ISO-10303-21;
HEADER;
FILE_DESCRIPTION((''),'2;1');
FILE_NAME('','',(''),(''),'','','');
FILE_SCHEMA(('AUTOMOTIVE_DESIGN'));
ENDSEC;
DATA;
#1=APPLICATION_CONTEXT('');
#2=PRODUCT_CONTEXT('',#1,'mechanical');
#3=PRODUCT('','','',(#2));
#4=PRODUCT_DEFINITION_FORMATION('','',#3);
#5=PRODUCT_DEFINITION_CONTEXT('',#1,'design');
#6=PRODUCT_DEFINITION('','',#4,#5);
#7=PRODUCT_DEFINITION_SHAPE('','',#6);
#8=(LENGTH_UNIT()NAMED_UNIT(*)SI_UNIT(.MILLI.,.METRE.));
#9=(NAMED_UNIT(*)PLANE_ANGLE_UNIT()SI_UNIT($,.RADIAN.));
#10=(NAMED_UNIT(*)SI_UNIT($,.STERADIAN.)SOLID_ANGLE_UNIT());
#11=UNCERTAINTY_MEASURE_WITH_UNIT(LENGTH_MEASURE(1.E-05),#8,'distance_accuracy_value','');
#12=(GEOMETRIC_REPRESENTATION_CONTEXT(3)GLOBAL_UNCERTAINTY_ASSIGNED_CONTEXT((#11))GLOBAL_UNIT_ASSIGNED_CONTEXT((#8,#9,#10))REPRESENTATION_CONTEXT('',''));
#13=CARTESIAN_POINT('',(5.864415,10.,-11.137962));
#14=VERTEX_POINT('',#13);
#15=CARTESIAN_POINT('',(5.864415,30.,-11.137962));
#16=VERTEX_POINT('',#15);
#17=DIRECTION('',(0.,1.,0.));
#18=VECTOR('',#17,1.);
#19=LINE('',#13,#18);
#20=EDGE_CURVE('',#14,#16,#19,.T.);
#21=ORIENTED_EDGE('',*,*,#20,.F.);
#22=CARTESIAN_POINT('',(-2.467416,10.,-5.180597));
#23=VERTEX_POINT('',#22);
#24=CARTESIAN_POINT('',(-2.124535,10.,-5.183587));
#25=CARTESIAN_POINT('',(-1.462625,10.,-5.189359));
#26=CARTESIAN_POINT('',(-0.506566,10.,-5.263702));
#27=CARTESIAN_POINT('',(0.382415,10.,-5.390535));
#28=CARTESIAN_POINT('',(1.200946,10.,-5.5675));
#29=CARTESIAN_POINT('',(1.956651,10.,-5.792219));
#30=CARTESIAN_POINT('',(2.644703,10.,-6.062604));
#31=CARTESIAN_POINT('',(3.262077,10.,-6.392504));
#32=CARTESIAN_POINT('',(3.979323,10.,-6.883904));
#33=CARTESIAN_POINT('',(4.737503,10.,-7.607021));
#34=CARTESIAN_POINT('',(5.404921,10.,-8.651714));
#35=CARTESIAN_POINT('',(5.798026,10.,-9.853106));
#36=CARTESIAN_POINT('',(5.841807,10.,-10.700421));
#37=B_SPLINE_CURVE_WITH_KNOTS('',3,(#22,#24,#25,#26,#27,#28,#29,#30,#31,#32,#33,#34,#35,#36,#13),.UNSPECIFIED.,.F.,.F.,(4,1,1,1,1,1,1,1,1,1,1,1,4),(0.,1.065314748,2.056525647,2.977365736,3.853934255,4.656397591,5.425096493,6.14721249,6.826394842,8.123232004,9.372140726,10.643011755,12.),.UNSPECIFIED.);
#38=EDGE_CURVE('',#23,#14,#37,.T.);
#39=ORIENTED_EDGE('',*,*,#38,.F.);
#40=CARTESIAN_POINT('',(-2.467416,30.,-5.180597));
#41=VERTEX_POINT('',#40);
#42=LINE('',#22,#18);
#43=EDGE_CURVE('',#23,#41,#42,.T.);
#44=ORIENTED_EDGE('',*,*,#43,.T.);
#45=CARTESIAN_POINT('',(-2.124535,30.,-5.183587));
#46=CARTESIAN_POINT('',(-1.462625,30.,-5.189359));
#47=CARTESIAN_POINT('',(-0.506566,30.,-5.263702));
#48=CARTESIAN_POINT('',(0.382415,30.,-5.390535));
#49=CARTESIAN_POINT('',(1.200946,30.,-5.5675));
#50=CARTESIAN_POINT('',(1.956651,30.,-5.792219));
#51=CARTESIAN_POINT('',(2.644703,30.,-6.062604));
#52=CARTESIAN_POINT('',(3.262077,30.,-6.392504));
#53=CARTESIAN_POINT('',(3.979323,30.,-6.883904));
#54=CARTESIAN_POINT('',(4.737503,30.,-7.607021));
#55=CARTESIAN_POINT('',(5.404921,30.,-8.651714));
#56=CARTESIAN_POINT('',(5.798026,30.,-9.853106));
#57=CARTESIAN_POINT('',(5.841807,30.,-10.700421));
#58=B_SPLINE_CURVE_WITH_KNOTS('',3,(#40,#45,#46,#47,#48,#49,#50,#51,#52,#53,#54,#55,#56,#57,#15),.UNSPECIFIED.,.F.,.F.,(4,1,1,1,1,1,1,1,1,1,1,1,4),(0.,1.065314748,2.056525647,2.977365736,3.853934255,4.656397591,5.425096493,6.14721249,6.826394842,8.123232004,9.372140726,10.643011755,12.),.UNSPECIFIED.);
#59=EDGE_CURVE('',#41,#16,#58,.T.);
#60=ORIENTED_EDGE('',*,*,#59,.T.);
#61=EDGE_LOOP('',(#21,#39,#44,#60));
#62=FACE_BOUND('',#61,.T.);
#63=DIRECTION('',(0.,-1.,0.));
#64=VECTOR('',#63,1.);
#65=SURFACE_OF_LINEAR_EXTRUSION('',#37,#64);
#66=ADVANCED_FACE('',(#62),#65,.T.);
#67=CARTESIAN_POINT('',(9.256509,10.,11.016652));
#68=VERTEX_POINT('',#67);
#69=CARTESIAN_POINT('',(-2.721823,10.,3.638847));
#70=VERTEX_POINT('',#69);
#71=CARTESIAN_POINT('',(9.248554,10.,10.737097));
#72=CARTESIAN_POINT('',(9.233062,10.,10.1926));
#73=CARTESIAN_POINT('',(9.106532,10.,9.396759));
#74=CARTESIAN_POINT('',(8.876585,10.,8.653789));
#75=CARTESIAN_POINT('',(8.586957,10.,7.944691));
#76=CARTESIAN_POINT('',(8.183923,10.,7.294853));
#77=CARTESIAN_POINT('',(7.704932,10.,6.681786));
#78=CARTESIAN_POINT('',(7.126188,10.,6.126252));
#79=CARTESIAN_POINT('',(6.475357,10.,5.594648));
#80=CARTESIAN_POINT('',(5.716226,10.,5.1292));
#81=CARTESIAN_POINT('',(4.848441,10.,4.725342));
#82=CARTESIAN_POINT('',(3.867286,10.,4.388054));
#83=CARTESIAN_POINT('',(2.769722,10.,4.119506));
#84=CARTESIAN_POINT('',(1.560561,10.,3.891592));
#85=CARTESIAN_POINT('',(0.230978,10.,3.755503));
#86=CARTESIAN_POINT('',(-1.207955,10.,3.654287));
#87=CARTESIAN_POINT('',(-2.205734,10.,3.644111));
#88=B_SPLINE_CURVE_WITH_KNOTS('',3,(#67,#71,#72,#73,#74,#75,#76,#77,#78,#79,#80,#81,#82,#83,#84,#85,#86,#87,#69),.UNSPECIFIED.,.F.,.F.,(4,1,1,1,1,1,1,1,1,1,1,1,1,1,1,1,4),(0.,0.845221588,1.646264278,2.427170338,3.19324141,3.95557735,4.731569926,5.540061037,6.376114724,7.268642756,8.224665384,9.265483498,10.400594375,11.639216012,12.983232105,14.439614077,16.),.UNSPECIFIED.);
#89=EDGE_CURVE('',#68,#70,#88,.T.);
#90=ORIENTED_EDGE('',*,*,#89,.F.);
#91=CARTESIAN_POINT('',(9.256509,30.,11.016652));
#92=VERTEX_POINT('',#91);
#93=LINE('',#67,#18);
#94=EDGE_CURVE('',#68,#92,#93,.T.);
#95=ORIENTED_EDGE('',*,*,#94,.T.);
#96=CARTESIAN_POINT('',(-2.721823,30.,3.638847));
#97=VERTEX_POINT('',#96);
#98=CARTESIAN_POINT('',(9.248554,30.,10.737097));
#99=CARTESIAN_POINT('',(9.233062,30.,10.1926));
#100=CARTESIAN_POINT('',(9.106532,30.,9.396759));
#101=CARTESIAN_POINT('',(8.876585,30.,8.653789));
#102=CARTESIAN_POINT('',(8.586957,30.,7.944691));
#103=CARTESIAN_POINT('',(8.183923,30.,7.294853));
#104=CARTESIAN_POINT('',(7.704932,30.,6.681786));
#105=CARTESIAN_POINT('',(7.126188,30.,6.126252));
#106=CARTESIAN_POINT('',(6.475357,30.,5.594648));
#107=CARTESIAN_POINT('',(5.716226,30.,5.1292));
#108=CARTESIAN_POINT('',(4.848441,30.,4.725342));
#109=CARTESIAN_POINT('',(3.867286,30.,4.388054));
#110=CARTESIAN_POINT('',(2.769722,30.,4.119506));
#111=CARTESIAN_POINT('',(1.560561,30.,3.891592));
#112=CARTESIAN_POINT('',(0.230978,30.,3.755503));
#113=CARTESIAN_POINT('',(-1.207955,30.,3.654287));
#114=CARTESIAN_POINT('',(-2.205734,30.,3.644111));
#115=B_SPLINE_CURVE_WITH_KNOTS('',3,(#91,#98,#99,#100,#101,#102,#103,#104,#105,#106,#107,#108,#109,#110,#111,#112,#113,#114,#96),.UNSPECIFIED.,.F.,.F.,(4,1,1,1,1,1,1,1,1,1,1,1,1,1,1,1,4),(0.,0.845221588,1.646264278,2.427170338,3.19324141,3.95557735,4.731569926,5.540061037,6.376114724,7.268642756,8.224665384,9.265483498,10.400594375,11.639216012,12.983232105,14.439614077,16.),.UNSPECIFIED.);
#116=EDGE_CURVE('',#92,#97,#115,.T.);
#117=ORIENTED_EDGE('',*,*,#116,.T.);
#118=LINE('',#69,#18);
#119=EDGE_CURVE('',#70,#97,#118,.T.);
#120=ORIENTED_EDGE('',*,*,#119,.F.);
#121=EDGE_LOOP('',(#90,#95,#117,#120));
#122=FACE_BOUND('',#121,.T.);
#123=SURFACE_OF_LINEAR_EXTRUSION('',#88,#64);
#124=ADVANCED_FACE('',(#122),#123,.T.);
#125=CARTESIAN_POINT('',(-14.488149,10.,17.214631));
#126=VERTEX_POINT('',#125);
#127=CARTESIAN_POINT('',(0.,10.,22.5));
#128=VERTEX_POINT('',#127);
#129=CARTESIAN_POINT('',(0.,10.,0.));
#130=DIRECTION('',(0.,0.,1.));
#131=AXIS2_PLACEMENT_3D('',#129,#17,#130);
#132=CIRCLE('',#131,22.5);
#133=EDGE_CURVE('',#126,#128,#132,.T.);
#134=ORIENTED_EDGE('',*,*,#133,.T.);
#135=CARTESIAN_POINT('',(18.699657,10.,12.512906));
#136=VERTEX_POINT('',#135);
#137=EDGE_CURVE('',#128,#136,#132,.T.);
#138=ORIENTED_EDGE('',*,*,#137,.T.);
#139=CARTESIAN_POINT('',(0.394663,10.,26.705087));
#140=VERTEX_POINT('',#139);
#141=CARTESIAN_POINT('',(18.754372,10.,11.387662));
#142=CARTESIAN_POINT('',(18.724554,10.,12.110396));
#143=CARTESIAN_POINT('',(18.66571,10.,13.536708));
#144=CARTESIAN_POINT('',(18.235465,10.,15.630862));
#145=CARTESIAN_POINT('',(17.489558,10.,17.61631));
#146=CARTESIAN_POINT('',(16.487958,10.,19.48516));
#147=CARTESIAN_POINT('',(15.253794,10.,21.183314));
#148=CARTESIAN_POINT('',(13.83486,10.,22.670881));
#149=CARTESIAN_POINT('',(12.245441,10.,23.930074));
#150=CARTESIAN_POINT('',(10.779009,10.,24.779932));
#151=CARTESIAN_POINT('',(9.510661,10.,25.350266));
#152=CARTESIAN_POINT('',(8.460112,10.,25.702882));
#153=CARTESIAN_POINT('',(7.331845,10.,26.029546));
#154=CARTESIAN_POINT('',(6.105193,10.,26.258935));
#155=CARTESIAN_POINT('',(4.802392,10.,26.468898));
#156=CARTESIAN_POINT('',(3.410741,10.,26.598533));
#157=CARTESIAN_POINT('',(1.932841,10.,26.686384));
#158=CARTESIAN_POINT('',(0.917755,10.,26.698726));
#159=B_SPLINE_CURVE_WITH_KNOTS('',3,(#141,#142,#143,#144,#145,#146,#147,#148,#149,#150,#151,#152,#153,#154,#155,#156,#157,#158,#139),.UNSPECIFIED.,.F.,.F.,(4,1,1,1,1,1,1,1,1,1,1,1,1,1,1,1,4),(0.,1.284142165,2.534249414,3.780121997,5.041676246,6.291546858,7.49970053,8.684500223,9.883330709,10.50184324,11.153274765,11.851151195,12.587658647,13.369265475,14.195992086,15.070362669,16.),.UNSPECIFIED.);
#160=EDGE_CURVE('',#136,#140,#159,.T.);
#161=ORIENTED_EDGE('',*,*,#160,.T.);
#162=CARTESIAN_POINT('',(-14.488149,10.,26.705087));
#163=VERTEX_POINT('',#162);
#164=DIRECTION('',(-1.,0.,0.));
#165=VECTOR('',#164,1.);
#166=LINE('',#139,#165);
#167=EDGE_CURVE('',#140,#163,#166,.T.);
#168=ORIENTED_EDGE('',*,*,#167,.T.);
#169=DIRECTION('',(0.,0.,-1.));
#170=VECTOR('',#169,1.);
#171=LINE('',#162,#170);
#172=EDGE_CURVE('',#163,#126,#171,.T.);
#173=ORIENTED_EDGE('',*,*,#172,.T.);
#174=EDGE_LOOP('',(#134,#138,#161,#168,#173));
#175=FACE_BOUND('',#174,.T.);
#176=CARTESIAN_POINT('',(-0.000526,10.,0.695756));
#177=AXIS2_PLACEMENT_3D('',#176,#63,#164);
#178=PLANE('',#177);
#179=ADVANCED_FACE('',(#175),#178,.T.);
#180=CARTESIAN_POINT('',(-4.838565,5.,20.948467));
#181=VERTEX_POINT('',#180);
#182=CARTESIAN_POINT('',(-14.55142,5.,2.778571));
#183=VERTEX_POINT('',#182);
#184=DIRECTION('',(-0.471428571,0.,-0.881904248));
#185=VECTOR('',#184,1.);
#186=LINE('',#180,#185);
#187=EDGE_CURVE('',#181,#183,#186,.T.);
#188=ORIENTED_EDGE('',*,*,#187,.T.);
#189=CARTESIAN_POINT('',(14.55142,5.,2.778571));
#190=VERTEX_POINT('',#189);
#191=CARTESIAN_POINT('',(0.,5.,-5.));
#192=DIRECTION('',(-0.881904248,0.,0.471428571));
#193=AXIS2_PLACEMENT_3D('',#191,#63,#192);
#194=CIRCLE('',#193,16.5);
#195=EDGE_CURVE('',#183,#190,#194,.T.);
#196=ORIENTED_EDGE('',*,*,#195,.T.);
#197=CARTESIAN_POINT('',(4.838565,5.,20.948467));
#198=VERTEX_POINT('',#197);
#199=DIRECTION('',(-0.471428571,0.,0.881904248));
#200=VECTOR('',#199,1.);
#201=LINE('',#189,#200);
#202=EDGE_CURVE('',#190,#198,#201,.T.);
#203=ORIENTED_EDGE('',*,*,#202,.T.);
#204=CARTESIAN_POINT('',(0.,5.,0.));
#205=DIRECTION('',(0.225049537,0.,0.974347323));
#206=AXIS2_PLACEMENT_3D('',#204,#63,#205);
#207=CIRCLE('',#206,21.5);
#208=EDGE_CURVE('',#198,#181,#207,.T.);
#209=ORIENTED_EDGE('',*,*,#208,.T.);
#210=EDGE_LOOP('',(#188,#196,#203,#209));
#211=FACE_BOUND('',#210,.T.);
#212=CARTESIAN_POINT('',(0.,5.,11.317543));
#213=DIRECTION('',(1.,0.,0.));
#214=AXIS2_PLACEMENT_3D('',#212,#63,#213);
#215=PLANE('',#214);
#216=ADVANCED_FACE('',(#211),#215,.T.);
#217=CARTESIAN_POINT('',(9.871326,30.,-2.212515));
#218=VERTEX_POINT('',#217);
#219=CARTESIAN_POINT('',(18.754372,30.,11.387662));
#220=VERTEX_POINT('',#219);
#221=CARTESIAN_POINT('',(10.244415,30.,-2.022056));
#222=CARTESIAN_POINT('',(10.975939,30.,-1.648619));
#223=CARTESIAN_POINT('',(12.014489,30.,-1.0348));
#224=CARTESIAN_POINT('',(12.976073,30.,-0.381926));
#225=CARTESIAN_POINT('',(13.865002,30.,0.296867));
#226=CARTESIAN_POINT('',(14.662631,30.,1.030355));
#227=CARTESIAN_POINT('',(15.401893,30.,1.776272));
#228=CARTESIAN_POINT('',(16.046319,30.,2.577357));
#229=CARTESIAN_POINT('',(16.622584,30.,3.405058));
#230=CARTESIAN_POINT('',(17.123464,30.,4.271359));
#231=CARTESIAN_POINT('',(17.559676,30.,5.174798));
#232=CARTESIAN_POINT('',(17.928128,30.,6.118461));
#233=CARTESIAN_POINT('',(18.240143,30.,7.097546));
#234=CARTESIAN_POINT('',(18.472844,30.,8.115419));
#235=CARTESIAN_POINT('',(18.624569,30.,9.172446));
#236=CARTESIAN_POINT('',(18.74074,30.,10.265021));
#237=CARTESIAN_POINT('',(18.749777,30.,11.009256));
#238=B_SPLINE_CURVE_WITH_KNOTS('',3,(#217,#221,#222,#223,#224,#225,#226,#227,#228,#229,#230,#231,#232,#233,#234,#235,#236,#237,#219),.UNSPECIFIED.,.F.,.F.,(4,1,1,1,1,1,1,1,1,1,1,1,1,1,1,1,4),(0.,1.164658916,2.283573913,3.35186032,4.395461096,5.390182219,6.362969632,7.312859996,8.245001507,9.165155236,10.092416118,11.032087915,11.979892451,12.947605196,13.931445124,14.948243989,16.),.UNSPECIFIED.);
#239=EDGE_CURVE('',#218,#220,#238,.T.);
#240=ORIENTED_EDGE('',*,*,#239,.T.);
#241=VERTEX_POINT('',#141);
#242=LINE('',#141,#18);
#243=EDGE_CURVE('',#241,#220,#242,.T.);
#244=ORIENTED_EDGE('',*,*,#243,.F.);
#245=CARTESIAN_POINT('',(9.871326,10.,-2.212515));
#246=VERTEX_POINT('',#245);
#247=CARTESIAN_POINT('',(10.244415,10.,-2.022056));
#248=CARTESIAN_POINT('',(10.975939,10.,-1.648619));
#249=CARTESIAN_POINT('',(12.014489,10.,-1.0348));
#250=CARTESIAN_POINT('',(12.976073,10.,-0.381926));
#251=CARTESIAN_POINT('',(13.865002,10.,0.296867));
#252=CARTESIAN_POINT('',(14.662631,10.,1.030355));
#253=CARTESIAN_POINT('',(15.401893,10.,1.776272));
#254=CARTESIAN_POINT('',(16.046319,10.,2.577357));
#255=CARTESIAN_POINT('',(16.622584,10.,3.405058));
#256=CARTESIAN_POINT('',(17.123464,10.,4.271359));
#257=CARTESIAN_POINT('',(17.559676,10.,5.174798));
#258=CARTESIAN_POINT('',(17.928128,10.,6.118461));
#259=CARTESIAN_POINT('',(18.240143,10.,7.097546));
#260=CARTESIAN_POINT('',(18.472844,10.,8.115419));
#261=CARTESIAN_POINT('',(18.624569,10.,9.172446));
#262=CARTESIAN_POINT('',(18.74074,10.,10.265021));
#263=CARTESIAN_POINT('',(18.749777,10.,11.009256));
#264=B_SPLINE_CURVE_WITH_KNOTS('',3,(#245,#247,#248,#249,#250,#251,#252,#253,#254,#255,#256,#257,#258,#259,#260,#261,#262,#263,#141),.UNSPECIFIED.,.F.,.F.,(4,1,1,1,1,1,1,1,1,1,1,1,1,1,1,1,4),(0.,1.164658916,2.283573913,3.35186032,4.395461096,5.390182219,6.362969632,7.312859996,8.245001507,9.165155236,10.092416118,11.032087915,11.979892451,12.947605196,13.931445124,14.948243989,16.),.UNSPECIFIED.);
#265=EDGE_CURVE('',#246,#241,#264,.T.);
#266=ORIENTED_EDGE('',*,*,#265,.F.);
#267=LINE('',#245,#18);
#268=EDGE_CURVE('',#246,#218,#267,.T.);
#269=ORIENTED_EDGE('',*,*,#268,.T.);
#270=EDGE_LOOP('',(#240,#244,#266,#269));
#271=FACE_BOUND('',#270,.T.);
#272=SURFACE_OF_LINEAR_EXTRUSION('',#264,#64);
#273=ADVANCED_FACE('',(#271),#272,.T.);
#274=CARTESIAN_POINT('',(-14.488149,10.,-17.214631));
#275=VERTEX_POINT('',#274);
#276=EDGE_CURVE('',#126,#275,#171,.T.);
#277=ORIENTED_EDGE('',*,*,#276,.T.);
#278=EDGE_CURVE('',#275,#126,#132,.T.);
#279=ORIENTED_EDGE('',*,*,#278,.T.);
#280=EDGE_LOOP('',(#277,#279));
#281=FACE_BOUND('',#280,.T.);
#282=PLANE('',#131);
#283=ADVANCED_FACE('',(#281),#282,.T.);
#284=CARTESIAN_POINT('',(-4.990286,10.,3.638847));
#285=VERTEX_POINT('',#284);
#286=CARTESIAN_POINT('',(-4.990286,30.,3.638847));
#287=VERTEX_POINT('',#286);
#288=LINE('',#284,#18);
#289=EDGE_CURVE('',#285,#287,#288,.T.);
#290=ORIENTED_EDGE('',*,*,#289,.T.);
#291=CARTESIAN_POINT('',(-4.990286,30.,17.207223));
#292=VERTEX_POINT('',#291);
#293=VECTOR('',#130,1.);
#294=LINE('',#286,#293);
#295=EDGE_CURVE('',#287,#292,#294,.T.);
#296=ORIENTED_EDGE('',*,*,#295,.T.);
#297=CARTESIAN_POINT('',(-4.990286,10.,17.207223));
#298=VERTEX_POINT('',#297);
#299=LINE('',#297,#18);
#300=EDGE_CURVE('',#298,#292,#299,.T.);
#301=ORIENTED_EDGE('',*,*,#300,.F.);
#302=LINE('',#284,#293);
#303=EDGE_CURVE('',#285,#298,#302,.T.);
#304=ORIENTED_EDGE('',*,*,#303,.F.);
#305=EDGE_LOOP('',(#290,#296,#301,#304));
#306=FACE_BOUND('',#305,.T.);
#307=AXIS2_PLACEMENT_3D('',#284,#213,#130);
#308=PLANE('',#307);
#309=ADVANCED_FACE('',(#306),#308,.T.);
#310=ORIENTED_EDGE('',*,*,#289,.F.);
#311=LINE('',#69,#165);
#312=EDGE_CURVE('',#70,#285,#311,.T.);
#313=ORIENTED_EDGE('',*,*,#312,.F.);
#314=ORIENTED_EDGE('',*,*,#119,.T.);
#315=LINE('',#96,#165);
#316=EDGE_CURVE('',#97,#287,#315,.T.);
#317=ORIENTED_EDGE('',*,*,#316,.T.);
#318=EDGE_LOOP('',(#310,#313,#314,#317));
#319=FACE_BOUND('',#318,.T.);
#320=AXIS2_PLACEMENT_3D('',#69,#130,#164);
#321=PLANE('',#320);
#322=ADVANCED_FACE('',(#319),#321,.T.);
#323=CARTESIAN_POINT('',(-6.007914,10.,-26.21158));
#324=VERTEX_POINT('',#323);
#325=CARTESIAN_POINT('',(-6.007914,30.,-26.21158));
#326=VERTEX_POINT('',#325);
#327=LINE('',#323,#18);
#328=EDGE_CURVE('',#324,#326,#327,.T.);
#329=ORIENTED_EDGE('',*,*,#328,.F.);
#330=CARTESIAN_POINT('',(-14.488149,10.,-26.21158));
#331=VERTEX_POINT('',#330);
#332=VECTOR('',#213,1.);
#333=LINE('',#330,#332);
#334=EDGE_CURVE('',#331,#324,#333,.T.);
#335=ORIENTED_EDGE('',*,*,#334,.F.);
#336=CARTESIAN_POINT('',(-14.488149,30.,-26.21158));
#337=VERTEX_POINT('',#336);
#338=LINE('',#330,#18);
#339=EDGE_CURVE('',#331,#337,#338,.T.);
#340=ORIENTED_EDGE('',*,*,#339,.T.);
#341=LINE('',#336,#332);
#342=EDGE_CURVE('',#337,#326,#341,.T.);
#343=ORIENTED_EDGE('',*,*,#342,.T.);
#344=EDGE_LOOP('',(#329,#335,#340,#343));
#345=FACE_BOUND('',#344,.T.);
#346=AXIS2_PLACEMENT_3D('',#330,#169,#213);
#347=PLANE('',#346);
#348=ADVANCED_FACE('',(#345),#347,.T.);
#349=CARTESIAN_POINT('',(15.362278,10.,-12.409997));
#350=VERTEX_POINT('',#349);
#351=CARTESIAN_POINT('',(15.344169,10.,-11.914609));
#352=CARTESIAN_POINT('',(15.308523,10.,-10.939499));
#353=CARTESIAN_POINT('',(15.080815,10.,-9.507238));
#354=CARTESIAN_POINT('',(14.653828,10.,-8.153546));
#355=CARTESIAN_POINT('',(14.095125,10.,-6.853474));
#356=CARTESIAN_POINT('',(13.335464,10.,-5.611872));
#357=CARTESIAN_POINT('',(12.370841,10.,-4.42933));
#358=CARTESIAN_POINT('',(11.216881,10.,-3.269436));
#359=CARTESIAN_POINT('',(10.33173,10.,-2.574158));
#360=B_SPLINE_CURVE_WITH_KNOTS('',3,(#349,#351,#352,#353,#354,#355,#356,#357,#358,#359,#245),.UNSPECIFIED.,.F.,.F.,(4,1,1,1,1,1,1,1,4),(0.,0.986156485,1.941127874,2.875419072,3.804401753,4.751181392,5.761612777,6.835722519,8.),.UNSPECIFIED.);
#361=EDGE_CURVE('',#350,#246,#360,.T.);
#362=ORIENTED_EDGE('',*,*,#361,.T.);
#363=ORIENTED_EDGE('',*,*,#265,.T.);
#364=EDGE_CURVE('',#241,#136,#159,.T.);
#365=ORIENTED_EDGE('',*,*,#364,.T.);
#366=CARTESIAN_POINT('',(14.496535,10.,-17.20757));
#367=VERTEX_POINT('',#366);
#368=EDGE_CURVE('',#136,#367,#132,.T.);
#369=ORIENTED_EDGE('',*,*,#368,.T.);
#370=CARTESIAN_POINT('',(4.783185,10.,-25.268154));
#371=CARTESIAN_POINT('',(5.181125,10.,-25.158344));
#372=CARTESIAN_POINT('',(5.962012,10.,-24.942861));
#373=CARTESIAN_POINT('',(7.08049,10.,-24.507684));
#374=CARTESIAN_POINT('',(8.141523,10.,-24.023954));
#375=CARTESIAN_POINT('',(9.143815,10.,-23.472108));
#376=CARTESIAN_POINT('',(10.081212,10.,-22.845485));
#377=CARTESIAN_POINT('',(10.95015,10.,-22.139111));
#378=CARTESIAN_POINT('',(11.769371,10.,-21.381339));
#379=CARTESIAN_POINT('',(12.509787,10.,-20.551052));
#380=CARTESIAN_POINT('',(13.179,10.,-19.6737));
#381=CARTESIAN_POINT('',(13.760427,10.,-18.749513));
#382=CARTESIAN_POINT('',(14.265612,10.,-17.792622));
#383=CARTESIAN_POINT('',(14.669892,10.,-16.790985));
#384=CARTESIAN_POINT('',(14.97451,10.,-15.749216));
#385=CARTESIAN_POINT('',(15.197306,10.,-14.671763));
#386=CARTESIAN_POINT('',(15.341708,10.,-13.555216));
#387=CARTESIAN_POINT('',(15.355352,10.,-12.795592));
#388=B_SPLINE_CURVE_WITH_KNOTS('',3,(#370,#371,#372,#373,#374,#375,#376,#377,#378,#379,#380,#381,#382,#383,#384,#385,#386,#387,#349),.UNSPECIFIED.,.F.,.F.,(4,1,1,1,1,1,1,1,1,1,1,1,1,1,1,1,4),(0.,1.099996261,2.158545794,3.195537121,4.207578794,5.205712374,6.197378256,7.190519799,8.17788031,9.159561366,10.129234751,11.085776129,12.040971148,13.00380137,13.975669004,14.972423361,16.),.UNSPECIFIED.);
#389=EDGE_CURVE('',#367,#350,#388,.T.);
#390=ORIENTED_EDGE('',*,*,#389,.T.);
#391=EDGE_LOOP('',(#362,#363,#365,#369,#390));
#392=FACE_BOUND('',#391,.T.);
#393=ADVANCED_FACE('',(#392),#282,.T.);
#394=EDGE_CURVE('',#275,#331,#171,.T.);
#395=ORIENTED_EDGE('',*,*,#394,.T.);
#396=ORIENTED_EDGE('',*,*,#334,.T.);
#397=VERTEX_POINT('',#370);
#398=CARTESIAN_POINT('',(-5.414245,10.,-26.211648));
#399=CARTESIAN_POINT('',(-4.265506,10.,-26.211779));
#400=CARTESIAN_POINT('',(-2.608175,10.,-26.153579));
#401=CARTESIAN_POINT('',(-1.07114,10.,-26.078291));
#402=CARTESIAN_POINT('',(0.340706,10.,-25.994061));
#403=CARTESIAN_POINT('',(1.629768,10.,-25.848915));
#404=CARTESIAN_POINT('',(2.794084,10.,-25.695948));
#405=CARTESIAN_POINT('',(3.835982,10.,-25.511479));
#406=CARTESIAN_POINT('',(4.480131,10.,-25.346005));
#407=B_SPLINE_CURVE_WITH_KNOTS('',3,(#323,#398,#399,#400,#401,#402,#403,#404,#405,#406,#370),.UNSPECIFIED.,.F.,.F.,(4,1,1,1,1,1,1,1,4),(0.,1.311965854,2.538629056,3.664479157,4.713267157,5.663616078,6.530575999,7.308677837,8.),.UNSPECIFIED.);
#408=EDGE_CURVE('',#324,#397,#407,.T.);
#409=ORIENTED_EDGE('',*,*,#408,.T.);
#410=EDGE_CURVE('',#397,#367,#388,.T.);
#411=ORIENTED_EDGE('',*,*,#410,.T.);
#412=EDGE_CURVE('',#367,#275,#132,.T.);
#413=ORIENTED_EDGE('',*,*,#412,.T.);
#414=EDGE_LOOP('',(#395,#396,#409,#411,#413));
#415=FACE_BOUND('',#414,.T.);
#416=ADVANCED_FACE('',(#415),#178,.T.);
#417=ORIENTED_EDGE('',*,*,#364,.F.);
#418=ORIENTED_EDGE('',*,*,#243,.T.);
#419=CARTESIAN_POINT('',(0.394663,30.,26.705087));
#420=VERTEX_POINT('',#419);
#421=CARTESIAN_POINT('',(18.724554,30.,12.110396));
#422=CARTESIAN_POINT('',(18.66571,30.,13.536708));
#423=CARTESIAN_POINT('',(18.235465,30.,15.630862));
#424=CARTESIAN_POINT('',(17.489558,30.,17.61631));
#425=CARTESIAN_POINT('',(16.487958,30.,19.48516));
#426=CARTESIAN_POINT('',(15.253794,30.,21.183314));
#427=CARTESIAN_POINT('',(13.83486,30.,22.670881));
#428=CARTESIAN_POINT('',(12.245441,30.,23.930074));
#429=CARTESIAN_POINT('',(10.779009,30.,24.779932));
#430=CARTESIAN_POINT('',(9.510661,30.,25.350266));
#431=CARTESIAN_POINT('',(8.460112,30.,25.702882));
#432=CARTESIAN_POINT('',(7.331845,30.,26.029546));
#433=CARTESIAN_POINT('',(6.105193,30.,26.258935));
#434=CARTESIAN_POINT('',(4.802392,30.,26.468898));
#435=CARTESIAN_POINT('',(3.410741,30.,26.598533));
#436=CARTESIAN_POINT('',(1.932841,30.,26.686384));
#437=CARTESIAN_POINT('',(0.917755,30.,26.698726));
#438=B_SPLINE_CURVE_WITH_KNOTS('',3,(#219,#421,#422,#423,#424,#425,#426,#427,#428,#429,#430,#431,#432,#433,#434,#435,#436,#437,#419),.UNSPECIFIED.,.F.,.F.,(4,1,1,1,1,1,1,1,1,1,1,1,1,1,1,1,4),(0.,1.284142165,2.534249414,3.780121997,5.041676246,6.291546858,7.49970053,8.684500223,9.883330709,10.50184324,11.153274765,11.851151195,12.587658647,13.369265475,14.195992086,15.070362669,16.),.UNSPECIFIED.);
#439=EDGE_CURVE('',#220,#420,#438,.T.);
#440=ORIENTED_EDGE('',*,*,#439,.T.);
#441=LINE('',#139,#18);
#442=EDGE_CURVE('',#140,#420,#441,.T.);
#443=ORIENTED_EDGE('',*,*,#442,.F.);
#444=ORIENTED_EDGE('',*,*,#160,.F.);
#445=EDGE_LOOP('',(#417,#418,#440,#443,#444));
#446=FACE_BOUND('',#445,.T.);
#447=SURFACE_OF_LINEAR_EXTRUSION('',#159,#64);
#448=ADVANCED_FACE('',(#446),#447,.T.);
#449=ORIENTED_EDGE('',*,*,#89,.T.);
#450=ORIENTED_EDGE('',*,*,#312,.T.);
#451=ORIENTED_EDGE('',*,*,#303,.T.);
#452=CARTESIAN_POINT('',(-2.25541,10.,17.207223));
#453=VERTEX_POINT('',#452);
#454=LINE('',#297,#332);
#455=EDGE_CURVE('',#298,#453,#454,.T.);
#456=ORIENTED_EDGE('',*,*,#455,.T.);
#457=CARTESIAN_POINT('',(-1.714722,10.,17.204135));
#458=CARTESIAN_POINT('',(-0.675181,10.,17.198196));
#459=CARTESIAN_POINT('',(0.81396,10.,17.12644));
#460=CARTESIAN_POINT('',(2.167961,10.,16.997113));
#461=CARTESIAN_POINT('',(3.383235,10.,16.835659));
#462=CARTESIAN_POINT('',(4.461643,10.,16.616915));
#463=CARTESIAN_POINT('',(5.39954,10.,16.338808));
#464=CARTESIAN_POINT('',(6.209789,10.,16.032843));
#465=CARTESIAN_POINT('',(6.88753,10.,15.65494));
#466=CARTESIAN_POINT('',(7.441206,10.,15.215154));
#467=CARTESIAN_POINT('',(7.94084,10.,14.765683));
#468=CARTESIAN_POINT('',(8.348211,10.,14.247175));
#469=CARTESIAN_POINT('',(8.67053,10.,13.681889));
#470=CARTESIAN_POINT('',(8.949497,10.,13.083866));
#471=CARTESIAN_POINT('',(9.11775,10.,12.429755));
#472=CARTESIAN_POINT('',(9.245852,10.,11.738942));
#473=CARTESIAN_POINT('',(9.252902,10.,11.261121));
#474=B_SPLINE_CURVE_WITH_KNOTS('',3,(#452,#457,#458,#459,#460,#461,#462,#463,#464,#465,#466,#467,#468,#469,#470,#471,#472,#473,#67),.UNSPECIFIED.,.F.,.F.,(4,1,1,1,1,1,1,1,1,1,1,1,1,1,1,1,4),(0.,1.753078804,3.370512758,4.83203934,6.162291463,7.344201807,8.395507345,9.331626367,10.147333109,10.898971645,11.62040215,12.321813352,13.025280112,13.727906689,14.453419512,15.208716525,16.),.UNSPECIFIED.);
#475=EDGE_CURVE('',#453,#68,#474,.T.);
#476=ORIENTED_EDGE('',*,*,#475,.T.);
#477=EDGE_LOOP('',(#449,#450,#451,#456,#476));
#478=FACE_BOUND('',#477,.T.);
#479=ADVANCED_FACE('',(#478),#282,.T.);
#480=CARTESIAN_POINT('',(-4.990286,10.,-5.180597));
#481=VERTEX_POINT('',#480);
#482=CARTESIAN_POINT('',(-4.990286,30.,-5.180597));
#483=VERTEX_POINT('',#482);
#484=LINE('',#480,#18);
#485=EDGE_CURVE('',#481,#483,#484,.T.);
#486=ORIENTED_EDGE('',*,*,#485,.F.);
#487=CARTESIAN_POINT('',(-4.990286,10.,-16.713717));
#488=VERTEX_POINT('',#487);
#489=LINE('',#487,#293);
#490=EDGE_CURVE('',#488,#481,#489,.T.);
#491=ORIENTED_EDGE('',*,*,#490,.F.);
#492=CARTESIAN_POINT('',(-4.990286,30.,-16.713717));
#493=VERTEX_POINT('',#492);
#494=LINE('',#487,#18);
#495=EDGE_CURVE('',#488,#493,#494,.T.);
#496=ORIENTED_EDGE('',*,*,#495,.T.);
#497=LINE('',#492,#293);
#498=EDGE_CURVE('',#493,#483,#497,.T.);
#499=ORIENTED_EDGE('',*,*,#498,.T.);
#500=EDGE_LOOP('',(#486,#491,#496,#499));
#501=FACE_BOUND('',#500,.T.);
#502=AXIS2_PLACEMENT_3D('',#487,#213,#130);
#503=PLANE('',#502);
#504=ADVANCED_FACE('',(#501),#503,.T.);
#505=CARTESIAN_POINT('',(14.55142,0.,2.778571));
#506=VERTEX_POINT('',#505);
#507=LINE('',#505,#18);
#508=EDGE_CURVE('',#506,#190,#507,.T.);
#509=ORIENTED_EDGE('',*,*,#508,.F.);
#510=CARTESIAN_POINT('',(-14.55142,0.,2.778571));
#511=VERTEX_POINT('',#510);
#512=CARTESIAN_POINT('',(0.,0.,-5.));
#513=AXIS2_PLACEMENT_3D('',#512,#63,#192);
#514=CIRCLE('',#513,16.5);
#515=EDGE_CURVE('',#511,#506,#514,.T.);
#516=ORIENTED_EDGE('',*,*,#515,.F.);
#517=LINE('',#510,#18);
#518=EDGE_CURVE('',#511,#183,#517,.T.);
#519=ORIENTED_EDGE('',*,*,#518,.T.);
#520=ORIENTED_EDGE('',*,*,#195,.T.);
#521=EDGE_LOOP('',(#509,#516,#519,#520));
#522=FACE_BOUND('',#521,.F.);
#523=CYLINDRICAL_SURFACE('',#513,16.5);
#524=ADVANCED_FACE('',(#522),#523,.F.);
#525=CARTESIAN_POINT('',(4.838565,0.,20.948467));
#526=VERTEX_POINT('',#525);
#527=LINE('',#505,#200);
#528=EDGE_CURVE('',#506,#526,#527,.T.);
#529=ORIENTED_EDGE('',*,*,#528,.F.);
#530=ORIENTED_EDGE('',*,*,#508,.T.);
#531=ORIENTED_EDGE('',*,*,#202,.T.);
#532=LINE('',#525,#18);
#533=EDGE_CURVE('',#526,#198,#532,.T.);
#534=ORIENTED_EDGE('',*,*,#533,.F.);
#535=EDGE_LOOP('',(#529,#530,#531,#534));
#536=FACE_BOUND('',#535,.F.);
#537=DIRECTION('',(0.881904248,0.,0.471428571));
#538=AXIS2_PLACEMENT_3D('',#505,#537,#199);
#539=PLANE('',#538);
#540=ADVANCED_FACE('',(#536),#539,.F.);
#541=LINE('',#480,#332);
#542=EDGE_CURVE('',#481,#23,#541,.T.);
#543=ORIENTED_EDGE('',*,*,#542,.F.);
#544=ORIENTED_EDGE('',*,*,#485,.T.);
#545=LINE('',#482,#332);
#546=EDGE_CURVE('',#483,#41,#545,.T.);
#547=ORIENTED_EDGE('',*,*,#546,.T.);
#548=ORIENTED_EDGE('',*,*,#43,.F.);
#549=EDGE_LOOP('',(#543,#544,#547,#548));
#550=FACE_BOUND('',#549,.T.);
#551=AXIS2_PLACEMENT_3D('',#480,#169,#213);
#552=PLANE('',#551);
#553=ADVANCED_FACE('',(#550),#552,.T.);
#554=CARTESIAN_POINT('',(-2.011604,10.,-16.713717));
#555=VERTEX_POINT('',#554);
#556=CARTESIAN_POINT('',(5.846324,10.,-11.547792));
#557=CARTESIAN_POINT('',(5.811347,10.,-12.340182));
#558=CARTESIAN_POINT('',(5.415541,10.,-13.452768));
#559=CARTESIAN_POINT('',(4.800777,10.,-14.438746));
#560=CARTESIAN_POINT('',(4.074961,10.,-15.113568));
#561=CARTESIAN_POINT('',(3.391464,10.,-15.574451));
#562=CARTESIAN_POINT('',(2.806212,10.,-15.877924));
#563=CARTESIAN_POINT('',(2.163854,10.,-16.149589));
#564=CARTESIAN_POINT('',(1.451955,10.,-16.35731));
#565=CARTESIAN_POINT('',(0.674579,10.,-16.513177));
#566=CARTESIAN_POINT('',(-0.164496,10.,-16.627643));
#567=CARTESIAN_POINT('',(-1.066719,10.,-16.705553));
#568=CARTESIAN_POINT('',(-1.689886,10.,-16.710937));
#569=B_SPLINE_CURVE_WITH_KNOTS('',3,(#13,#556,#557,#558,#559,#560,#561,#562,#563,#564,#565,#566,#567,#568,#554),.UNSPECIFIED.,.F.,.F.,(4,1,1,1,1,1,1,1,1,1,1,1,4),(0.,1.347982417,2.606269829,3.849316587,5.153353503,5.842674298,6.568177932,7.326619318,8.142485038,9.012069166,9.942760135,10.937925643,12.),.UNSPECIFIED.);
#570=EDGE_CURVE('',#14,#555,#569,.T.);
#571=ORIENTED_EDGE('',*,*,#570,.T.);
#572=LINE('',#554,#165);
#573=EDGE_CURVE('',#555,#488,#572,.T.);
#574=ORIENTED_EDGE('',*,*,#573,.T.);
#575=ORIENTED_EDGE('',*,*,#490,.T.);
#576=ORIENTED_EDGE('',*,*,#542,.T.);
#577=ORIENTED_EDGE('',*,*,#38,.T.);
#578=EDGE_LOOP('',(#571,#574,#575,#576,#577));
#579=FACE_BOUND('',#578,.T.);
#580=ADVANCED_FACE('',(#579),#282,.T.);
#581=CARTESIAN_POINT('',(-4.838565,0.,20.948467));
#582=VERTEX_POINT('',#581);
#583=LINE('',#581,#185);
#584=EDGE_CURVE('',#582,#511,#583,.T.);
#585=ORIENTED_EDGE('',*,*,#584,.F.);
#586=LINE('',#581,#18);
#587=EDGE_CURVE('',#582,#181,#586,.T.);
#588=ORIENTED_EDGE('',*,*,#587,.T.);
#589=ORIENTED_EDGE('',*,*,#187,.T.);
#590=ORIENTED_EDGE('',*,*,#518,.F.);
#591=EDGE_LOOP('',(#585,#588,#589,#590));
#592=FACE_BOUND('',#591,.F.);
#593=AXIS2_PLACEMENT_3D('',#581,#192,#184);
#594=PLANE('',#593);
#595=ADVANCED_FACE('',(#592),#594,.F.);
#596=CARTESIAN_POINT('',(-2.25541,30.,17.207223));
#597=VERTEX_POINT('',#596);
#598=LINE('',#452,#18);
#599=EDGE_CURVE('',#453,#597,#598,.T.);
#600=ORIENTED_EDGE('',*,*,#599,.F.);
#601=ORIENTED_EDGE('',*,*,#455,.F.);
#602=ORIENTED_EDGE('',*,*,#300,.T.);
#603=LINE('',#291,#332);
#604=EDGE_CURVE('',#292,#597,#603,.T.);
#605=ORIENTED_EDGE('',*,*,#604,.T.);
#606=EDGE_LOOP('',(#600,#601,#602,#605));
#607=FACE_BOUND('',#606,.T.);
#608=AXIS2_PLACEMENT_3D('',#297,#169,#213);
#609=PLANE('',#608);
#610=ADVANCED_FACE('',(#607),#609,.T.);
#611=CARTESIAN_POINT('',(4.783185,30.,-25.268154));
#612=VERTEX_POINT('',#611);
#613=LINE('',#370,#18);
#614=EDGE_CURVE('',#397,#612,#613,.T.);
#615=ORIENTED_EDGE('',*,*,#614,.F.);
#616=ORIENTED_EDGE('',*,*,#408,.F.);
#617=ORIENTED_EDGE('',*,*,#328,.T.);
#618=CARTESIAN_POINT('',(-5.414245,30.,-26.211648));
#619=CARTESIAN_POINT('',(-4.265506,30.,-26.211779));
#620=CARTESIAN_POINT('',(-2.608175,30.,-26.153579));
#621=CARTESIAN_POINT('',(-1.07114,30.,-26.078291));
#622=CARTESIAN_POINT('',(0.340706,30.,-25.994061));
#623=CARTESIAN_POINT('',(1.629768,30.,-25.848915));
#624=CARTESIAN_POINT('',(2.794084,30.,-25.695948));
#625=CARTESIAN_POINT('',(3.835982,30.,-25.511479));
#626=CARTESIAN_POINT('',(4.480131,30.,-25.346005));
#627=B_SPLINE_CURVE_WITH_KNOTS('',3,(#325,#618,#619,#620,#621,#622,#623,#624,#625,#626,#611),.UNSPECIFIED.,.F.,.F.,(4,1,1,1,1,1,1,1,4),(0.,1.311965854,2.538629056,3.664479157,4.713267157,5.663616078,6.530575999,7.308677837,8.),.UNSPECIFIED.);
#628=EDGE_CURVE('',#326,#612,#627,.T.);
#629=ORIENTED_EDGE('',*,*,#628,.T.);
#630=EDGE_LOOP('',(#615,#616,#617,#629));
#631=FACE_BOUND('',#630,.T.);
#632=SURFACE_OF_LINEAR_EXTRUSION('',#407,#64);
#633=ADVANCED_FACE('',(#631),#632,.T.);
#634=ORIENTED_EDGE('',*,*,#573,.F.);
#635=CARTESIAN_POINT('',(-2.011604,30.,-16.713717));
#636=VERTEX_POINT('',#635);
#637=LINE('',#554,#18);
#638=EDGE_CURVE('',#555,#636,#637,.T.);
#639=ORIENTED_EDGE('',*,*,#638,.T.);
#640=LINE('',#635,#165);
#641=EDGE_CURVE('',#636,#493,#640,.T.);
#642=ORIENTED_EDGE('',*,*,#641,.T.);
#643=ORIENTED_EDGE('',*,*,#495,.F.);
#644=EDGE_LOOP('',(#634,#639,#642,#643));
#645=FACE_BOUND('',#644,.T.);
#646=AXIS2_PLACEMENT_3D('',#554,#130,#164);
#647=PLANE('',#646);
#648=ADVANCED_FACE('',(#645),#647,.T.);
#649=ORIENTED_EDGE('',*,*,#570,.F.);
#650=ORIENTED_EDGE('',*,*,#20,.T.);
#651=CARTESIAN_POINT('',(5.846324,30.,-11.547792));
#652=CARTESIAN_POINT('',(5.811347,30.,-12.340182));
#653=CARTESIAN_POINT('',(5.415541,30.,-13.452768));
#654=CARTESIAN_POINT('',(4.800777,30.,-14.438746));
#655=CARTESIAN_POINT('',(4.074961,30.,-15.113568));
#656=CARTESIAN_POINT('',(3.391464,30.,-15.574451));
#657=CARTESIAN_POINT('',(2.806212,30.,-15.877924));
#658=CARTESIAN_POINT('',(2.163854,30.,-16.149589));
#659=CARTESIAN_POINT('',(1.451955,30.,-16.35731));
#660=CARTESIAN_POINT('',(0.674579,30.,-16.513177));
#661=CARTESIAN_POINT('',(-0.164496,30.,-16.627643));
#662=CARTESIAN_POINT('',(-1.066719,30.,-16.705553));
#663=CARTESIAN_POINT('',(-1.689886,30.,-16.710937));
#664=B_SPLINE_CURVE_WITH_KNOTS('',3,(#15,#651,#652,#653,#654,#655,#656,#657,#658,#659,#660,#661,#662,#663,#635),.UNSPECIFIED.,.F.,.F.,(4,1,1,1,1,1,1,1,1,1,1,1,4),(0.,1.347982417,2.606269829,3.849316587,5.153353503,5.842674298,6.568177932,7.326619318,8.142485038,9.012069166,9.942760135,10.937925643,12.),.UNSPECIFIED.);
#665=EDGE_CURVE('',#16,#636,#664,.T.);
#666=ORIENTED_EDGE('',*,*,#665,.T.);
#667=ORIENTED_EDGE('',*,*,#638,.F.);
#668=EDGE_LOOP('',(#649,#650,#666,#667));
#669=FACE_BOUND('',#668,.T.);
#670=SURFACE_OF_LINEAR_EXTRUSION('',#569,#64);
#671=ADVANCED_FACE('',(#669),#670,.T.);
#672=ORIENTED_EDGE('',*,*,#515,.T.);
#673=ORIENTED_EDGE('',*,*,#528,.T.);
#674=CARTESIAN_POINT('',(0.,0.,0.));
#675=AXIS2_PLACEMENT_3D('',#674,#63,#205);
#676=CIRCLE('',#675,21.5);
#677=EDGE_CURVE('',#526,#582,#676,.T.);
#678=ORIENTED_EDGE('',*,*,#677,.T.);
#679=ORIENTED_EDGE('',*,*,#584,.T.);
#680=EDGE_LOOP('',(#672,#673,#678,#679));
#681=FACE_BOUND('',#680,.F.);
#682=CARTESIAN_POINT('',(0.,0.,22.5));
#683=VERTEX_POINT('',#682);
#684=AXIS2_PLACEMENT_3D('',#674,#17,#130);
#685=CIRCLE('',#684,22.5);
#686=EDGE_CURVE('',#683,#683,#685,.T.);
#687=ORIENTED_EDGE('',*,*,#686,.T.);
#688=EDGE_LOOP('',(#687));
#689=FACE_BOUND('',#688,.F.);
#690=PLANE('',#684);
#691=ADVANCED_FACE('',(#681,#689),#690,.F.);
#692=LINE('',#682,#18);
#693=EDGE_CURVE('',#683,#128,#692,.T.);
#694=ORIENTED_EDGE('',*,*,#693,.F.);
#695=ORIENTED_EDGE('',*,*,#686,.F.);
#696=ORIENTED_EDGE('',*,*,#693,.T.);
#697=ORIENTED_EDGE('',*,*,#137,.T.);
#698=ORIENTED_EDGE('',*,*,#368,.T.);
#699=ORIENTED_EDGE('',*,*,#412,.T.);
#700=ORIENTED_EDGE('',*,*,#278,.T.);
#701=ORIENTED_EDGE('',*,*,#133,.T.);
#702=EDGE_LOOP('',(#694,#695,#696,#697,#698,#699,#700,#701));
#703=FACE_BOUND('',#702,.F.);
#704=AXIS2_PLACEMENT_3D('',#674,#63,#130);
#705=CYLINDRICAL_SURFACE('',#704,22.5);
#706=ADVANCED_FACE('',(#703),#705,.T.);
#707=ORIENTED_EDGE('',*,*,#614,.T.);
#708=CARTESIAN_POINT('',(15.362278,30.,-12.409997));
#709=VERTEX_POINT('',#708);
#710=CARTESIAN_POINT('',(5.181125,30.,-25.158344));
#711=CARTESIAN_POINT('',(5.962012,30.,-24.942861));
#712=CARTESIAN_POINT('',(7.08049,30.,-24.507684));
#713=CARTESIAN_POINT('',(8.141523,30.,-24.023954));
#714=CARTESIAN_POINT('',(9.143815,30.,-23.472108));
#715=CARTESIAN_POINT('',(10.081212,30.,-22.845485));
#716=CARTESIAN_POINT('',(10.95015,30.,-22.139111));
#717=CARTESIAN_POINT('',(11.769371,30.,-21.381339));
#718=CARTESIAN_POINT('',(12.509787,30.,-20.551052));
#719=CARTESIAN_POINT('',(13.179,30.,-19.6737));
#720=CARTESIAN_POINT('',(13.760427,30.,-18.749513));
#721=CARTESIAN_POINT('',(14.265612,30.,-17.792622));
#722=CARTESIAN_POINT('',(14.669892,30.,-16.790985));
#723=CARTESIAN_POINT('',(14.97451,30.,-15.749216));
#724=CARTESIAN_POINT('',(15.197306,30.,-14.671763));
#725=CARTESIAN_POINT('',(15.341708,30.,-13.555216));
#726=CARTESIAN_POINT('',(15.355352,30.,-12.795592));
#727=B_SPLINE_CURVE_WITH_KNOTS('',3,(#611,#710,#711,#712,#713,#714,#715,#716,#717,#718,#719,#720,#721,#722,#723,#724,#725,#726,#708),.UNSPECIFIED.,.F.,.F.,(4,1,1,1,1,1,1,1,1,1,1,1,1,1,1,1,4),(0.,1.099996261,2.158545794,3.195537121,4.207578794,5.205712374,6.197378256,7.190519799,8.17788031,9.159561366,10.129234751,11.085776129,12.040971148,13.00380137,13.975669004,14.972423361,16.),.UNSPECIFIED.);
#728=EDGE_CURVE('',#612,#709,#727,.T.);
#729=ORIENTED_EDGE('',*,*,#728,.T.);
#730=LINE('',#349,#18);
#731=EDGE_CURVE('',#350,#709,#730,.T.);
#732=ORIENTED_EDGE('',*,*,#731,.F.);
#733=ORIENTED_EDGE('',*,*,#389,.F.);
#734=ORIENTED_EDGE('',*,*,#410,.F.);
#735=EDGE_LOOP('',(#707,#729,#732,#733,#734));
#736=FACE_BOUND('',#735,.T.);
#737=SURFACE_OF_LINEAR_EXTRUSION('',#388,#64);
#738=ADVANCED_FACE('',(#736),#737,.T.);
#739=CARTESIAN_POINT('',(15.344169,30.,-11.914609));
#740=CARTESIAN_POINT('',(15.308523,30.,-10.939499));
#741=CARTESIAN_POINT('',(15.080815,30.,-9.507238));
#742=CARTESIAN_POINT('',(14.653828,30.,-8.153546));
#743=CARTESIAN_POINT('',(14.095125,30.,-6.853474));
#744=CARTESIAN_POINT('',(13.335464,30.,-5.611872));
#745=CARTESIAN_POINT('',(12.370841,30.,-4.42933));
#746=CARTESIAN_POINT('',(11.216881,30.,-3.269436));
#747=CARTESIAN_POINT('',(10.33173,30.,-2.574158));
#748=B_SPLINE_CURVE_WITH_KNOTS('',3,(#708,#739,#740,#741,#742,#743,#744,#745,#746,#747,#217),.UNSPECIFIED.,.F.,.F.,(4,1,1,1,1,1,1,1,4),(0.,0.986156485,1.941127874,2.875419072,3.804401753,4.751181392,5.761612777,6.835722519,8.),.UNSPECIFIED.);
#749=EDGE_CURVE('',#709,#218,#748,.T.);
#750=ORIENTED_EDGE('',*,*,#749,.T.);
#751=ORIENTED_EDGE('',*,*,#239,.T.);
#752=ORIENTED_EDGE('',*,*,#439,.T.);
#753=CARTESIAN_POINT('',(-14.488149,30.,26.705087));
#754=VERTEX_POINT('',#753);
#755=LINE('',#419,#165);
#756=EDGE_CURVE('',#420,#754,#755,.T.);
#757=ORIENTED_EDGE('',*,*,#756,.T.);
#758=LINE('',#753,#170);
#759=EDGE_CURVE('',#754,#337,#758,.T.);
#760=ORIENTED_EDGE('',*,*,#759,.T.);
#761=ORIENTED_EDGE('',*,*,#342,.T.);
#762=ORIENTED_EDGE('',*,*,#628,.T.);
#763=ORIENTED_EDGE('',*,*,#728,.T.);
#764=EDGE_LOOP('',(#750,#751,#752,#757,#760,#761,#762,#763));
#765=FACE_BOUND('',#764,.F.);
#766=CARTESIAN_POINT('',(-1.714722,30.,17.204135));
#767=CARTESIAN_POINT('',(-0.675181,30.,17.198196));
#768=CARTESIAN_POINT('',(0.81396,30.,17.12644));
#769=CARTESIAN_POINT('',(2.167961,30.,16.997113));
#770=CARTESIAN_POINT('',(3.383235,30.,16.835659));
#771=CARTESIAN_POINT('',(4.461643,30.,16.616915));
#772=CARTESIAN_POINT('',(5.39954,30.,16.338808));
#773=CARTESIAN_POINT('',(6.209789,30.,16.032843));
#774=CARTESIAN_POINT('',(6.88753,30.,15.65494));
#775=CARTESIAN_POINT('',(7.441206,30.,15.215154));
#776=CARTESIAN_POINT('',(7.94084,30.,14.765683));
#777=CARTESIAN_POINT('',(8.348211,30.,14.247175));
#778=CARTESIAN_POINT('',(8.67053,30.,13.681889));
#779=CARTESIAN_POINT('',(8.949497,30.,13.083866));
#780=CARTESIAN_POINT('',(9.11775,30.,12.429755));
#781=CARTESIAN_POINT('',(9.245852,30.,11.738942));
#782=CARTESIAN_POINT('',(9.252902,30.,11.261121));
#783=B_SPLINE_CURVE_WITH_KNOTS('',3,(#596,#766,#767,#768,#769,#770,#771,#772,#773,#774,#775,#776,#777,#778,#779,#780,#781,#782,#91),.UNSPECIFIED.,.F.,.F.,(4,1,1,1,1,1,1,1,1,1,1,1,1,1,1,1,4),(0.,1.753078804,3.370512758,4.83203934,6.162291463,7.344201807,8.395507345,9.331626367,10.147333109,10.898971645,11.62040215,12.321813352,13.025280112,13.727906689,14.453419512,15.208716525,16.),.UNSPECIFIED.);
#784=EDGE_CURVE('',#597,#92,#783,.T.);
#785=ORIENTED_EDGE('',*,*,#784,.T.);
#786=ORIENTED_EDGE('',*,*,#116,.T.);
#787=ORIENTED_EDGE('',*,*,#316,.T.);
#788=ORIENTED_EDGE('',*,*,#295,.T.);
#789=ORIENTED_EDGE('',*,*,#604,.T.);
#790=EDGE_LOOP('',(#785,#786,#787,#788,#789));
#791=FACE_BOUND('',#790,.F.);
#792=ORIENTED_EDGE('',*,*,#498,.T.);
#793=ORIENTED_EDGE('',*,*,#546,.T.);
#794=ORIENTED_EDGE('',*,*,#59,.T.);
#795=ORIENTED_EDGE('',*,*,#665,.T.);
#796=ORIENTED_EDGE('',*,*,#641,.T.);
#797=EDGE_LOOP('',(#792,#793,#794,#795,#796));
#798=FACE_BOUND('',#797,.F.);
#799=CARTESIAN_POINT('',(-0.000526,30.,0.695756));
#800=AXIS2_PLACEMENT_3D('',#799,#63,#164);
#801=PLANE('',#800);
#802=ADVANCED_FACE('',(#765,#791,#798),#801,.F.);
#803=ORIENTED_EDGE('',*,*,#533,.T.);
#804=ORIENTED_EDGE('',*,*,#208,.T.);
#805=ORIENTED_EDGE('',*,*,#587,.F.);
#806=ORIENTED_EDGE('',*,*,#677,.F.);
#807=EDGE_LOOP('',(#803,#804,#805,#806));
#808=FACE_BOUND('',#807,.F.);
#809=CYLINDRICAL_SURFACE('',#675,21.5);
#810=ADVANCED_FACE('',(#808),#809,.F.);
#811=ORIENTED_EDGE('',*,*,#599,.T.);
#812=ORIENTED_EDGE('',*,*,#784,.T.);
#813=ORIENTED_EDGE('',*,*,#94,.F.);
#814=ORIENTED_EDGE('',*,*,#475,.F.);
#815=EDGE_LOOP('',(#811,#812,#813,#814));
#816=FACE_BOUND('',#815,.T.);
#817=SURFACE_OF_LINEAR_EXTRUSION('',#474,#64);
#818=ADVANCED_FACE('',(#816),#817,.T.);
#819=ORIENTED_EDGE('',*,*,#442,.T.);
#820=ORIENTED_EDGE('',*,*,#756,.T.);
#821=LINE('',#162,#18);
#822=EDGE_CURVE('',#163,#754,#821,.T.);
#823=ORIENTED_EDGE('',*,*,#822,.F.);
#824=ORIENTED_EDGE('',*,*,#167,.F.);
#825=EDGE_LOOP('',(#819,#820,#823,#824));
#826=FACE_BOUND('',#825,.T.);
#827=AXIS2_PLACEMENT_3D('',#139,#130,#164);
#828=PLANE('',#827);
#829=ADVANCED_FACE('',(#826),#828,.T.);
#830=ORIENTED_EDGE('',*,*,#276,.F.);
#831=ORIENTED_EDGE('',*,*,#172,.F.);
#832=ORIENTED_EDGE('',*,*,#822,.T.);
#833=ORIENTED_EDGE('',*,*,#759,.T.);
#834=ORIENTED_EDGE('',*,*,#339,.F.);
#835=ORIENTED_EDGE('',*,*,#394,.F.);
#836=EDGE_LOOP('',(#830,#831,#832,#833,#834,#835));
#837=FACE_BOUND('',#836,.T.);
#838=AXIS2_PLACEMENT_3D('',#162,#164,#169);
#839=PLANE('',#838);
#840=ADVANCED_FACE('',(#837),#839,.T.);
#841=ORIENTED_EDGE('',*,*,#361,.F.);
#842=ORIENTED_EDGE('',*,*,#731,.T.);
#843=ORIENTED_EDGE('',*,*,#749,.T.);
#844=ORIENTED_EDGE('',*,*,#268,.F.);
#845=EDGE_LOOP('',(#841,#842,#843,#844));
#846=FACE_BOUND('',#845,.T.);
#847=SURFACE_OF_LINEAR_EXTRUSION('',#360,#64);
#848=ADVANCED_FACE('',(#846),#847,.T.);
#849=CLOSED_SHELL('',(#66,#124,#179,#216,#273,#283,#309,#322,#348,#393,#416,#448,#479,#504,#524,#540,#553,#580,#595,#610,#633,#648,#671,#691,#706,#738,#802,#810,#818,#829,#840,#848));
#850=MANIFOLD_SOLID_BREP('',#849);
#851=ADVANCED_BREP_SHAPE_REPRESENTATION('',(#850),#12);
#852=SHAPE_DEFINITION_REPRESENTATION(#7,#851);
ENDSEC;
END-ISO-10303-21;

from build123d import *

# Parameters (mm, degrees)
SKETCH1_R           = 22.5
BOSS_EXTRUDE1_DEPTH = 10
BOSS_EXTRUDE2_DEPTH = 20
SKETCH3_R           = 16.5
CUT_EXTRUDE2_DEPTH  = 5


with BuildPart() as part:
    # Sketch1 → Boss-Extrude1 (new body)
    with BuildSketch(Plane(origin=(0, 0, 0), x_dir=(1, 0, 0), z_dir=(0, 1, 0))):
        with Locations(Location((0, 0, 0), (0, 0, 270))):
            Circle(SKETCH1_R)
    extrude(amount=BOSS_EXTRUDE1_DEPTH)

    # Sketch2 → Boss-Extrude2 (add)
    with BuildSketch(Plane(origin=(0, 10, 0), x_dir=(1, 0, 0), z_dir=(0, 1, 0))):
        with BuildLine():
            Line((-14.488149335, -26.70508671), (-14.488149335, 26.211579956))
            Line((-14.488149335, 26.211579956), (-6.007914293, 26.211579956))
            add(Edge.make_bspline(
                [(-6.007914293, 26.211579956), (-5.414244815, 26.211647709), (-4.265505631, 26.211778808), (-2.608174782, 26.15357879), (-1.071140386, 26.078290547), (0.340706119, 25.99406051), (1.629767793, 25.848915327), (2.794084408, 25.69594816), (3.835982274, 25.511479183), (4.480131109, 25.346004797), (4.783184799, 25.268153808)],
                knots=[0, 0, 0, 0, 1.311965854, 2.538629056, 3.664479157, 4.713267157, 5.663616078, 6.530575999, 7.308677837, 8, 8, 8, 8], degree=3))
            add(Edge.make_bspline(
                [(4.783184799, 25.268153808), (5.181125063, 25.158343602), (5.962011612, 24.942860725), (7.080490347, 24.507683744), (8.141523447, 24.023953675), (9.143815418, 23.472108139), (10.08121179, 22.845484813), (10.950150136, 22.139110625), (11.769371306, 21.381339407), (12.509786627, 20.551052288), (13.179000085, 19.673700144), (13.760426595, 18.749512867), (14.265611712, 17.792621882), (14.669892129, 16.790985354), (14.974509828, 15.749216088), (15.197305942, 14.671762602), (15.341707994, 13.555215567), (15.355352093, 12.795592125), (15.362278015, 12.409997424)],
                knots=[0, 0, 0, 0, 1.099996261, 2.158545794, 3.195537121, 4.207578794, 5.205712374, 6.197378256, 7.190519799, 8.17788031, 9.159561366, 10.129234751, 11.085776129, 12.040971148, 13.00380137, 13.975669004, 14.972423361, 16, 16, 16, 16], degree=3))
            add(Edge.make_bspline(
                [(15.362278015, 12.409997424), (15.344168787, 11.914609447), (15.308522997, 10.939499081), (15.080815259, 9.507238371), (14.653827774, 8.153546136), (14.095125035, 6.85347434), (13.335463983, 5.611872259), (12.370841368, 4.429330241), (11.216880916, 3.269436044), (10.331729546, 2.574157712), (9.871325825, 2.212514786)],
                knots=[0, 0, 0, 0, 0.986156485, 1.941127874, 2.875419072, 3.804401753, 4.751181392, 5.761612777, 6.835722519, 8, 8, 8, 8], degree=3))
            add(Edge.make_bspline(
                [(9.871325825, 2.212514786), (10.244414913, 2.022056041), (10.975939394, 1.648619138), (12.014489248, 1.034800345), (12.976073045, 0.381926211), (13.865002238, -0.296867174), (14.662630517, -1.030354847), (15.401893295, -1.77627224), (16.046319182, -2.577357317), (16.622584233, -3.40505788), (17.123464449, -4.271359131), (17.559675885, -5.174798081), (17.928128038, -6.118461074), (18.240142851, -7.09754563), (18.472843581, -8.115419342), (18.624569406, -9.172446243), (18.740740181, -10.265021335), (18.749777175, -11.009256203), (18.754372032, -11.387662164)],
                knots=[0, 0, 0, 0, 1.164658916, 2.283573913, 3.35186032, 4.395461096, 5.390182219, 6.362969632, 7.312859996, 8.245001507, 9.165155236, 10.092416118, 11.032087915, 11.979892451, 12.947605196, 13.931445124, 14.948243989, 16, 16, 16, 16], degree=3))
            add(Edge.make_bspline(
                [(18.754372032, -11.387662164), (18.724554483, -12.110395914), (18.665709669, -13.536708072), (18.235465105, -15.630861893), (17.48955774, -17.616309656), (16.487957959, -19.48516034), (15.25379432, -21.183313786), (13.834860053, -22.670881463), (12.245440572, -23.930074476), (10.779008994, -24.779932076), (9.510661162, -25.350265997), (8.46011235, -25.702882393), (7.331845194, -26.029545689), (6.105192549, -26.258935401), (4.802391955, -26.468898089), (3.410741024, -26.598533402), (1.932840727, -26.686384059), (0.917754918, -26.698726455), (0.394663165, -26.70508671)],
                knots=[0, 0, 0, 0, 1.284142165, 2.534249414, 3.780121997, 5.041676246, 6.291546858, 7.49970053, 8.684500223, 9.883330709, 10.50184324, 11.153274765, 11.851151195, 12.587658647, 13.369265475, 14.195992086, 15.070362669, 16, 16, 16, 16], degree=3))
            Line((0.394663165, -26.70508671), (-14.488149335, -26.70508671))
        make_face()
        with BuildLine():
            Line((-4.990286087, 16.713716709), (-4.990286087, 5.180597051))
            Line((-4.990286087, 5.180597051), (-2.467416162, 5.180597051))
            add(Edge.make_bspline(
                [(-2.467416162, 5.180597051), (-2.124535473, 5.1835871), (-1.462625052, 5.189359209), (-0.50656566, 5.263701973), (0.382415177, 5.390535346), (1.200945746, 5.567499807), (1.956650957, 5.79221887), (2.644703146, 6.062604299), (3.262077073, 6.392503912), (3.979322786, 6.883903943), (4.737503228, 7.607021089), (5.404920943, 8.65171363), (5.798025521, 9.853106078), (5.841806769, 10.700421057), (5.864414767, 11.137962168)],
                knots=[0, 0, 0, 0, 1.065314748, 2.056525647, 2.977365736, 3.853934255, 4.656397591, 5.425096493, 6.14721249, 6.826394842, 8.123232004, 9.372140726, 10.643011755, 12, 12, 12, 12], degree=3))
            add(Edge.make_bspline(
                [(5.864414767, 11.137962168), (5.84632423, 11.547792116), (5.811346902, 12.340181849), (5.415541135, 13.452767604), (4.800776528, 14.438746288), (4.074960502, 15.113568064), (3.391463676, 15.574451442), (2.80621175, 15.87792352), (2.163853815, 16.149588622), (1.451954509, 16.357310381), (0.674579167, 16.513177474), (-0.164496065, 16.627643188), (-1.06671888, 16.705553423), (-1.689886099, 16.710937246), (-2.011603529, 16.713716709)],
                knots=[0, 0, 0, 0, 1.347982417, 2.606269829, 3.849316587, 5.153353503, 5.842674298, 6.568177932, 7.326619318, 8.142485038, 9.012069166, 9.942760135, 10.937925643, 12, 12, 12, 12], degree=3))
            Line((-2.011603529, 16.713716709), (-4.990286087, 16.713716709))
        make_face(mode=Mode.SUBTRACT)
        with BuildLine():
            Line((-4.990286087, -3.638847394), (-4.990286087, -17.207223462))
            Line((-4.990286087, -17.207223462), (-2.255410286, -17.207223462))
            add(Edge.make_bspline(
                [(-2.255410286, -17.207223462), (-1.714721858, -17.204134529), (-0.675180886, -17.198195671), (0.813959715, -17.126440131), (2.167960807, -16.997113416), (3.383234797, -16.835659429), (4.461643108, -16.61691453), (5.399540462, -16.338808424), (6.209788904, -16.032843269), (6.887530146, -15.654939974), (7.441205914, -15.215154252), (7.940840245, -14.76568268), (8.348210945, -14.247174757), (8.670530245, -13.681888592), (8.94949703, -13.0838663), (9.117750095, -12.429755326), (9.245852073, -11.738941952), (9.252901868, -11.26112128), (9.256508784, -11.016651881)],
                knots=[0, 0, 0, 0, 1.753078804, 3.370512758, 4.83203934, 6.162291463, 7.344201807, 8.395507345, 9.331626367, 10.147333109, 10.898971645, 11.62040215, 12.321813352, 13.025280112, 13.727906689, 14.453419512, 15.208716525, 16, 16, 16, 16], degree=3))
            add(Edge.make_bspline(
                [(9.256508784, -11.016651881), (9.248554499, -10.737097279), (9.233061691, -10.192600118), (9.106531742, -9.396759406), (8.876585491, -8.653789298), (8.58695697, -7.944691045), (8.183923494, -7.294852835), (7.704931981, -6.681786232), (7.126187955, -6.126251562), (6.475356533, -5.594648013), (5.716226117, -5.129200305), (4.848440543, -4.725341973), (3.867285527, -4.388054368), (2.769721839, -4.119505755), (1.560561113, -3.891592259), (0.230977803, -3.755502742), (-1.207954859, -3.654286988), (-2.205734185, -3.644110867), (-2.721823214, -3.638847394)],
                knots=[0, 0, 0, 0, 0.845221588, 1.646264278, 2.427170338, 3.19324141, 3.95557735, 4.731569926, 5.540061037, 6.376114724, 7.268642756, 8.224665384, 9.265483498, 10.400594375, 11.639216012, 12.983232105, 14.439614077, 16, 16, 16, 16], degree=3))
            Line((-2.721823214, -3.638847394), (-4.990286087, -3.638847394))
        make_face(mode=Mode.SUBTRACT)
    extrude(amount=BOSS_EXTRUDE2_DEPTH)

    # Sketch3 → Cut-Extrude2 (cut)
    with BuildSketch(Plane.XZ):
        with BuildLine():
            ThreePointArc((-14.551420086, 2.778571429), (0, 11.5), (14.551420086, 2.778571429))
            Line((14.551420086, 2.778571429), (4.83856504, 20.948467447))
            ThreePointArc((4.83856504, 20.948467447), (0, 21.5), (-4.83856504, 20.948467447))
            Line((-4.83856504, 20.948467447), (-14.551420086, 2.778571429))
        make_face()
        with Locations((0, -5)):
            Circle(SKETCH3_R)
    extrude(amount=-CUT_EXTRUDE2_DEPTH, mode=Mode.SUBTRACT)


solid = part.part
